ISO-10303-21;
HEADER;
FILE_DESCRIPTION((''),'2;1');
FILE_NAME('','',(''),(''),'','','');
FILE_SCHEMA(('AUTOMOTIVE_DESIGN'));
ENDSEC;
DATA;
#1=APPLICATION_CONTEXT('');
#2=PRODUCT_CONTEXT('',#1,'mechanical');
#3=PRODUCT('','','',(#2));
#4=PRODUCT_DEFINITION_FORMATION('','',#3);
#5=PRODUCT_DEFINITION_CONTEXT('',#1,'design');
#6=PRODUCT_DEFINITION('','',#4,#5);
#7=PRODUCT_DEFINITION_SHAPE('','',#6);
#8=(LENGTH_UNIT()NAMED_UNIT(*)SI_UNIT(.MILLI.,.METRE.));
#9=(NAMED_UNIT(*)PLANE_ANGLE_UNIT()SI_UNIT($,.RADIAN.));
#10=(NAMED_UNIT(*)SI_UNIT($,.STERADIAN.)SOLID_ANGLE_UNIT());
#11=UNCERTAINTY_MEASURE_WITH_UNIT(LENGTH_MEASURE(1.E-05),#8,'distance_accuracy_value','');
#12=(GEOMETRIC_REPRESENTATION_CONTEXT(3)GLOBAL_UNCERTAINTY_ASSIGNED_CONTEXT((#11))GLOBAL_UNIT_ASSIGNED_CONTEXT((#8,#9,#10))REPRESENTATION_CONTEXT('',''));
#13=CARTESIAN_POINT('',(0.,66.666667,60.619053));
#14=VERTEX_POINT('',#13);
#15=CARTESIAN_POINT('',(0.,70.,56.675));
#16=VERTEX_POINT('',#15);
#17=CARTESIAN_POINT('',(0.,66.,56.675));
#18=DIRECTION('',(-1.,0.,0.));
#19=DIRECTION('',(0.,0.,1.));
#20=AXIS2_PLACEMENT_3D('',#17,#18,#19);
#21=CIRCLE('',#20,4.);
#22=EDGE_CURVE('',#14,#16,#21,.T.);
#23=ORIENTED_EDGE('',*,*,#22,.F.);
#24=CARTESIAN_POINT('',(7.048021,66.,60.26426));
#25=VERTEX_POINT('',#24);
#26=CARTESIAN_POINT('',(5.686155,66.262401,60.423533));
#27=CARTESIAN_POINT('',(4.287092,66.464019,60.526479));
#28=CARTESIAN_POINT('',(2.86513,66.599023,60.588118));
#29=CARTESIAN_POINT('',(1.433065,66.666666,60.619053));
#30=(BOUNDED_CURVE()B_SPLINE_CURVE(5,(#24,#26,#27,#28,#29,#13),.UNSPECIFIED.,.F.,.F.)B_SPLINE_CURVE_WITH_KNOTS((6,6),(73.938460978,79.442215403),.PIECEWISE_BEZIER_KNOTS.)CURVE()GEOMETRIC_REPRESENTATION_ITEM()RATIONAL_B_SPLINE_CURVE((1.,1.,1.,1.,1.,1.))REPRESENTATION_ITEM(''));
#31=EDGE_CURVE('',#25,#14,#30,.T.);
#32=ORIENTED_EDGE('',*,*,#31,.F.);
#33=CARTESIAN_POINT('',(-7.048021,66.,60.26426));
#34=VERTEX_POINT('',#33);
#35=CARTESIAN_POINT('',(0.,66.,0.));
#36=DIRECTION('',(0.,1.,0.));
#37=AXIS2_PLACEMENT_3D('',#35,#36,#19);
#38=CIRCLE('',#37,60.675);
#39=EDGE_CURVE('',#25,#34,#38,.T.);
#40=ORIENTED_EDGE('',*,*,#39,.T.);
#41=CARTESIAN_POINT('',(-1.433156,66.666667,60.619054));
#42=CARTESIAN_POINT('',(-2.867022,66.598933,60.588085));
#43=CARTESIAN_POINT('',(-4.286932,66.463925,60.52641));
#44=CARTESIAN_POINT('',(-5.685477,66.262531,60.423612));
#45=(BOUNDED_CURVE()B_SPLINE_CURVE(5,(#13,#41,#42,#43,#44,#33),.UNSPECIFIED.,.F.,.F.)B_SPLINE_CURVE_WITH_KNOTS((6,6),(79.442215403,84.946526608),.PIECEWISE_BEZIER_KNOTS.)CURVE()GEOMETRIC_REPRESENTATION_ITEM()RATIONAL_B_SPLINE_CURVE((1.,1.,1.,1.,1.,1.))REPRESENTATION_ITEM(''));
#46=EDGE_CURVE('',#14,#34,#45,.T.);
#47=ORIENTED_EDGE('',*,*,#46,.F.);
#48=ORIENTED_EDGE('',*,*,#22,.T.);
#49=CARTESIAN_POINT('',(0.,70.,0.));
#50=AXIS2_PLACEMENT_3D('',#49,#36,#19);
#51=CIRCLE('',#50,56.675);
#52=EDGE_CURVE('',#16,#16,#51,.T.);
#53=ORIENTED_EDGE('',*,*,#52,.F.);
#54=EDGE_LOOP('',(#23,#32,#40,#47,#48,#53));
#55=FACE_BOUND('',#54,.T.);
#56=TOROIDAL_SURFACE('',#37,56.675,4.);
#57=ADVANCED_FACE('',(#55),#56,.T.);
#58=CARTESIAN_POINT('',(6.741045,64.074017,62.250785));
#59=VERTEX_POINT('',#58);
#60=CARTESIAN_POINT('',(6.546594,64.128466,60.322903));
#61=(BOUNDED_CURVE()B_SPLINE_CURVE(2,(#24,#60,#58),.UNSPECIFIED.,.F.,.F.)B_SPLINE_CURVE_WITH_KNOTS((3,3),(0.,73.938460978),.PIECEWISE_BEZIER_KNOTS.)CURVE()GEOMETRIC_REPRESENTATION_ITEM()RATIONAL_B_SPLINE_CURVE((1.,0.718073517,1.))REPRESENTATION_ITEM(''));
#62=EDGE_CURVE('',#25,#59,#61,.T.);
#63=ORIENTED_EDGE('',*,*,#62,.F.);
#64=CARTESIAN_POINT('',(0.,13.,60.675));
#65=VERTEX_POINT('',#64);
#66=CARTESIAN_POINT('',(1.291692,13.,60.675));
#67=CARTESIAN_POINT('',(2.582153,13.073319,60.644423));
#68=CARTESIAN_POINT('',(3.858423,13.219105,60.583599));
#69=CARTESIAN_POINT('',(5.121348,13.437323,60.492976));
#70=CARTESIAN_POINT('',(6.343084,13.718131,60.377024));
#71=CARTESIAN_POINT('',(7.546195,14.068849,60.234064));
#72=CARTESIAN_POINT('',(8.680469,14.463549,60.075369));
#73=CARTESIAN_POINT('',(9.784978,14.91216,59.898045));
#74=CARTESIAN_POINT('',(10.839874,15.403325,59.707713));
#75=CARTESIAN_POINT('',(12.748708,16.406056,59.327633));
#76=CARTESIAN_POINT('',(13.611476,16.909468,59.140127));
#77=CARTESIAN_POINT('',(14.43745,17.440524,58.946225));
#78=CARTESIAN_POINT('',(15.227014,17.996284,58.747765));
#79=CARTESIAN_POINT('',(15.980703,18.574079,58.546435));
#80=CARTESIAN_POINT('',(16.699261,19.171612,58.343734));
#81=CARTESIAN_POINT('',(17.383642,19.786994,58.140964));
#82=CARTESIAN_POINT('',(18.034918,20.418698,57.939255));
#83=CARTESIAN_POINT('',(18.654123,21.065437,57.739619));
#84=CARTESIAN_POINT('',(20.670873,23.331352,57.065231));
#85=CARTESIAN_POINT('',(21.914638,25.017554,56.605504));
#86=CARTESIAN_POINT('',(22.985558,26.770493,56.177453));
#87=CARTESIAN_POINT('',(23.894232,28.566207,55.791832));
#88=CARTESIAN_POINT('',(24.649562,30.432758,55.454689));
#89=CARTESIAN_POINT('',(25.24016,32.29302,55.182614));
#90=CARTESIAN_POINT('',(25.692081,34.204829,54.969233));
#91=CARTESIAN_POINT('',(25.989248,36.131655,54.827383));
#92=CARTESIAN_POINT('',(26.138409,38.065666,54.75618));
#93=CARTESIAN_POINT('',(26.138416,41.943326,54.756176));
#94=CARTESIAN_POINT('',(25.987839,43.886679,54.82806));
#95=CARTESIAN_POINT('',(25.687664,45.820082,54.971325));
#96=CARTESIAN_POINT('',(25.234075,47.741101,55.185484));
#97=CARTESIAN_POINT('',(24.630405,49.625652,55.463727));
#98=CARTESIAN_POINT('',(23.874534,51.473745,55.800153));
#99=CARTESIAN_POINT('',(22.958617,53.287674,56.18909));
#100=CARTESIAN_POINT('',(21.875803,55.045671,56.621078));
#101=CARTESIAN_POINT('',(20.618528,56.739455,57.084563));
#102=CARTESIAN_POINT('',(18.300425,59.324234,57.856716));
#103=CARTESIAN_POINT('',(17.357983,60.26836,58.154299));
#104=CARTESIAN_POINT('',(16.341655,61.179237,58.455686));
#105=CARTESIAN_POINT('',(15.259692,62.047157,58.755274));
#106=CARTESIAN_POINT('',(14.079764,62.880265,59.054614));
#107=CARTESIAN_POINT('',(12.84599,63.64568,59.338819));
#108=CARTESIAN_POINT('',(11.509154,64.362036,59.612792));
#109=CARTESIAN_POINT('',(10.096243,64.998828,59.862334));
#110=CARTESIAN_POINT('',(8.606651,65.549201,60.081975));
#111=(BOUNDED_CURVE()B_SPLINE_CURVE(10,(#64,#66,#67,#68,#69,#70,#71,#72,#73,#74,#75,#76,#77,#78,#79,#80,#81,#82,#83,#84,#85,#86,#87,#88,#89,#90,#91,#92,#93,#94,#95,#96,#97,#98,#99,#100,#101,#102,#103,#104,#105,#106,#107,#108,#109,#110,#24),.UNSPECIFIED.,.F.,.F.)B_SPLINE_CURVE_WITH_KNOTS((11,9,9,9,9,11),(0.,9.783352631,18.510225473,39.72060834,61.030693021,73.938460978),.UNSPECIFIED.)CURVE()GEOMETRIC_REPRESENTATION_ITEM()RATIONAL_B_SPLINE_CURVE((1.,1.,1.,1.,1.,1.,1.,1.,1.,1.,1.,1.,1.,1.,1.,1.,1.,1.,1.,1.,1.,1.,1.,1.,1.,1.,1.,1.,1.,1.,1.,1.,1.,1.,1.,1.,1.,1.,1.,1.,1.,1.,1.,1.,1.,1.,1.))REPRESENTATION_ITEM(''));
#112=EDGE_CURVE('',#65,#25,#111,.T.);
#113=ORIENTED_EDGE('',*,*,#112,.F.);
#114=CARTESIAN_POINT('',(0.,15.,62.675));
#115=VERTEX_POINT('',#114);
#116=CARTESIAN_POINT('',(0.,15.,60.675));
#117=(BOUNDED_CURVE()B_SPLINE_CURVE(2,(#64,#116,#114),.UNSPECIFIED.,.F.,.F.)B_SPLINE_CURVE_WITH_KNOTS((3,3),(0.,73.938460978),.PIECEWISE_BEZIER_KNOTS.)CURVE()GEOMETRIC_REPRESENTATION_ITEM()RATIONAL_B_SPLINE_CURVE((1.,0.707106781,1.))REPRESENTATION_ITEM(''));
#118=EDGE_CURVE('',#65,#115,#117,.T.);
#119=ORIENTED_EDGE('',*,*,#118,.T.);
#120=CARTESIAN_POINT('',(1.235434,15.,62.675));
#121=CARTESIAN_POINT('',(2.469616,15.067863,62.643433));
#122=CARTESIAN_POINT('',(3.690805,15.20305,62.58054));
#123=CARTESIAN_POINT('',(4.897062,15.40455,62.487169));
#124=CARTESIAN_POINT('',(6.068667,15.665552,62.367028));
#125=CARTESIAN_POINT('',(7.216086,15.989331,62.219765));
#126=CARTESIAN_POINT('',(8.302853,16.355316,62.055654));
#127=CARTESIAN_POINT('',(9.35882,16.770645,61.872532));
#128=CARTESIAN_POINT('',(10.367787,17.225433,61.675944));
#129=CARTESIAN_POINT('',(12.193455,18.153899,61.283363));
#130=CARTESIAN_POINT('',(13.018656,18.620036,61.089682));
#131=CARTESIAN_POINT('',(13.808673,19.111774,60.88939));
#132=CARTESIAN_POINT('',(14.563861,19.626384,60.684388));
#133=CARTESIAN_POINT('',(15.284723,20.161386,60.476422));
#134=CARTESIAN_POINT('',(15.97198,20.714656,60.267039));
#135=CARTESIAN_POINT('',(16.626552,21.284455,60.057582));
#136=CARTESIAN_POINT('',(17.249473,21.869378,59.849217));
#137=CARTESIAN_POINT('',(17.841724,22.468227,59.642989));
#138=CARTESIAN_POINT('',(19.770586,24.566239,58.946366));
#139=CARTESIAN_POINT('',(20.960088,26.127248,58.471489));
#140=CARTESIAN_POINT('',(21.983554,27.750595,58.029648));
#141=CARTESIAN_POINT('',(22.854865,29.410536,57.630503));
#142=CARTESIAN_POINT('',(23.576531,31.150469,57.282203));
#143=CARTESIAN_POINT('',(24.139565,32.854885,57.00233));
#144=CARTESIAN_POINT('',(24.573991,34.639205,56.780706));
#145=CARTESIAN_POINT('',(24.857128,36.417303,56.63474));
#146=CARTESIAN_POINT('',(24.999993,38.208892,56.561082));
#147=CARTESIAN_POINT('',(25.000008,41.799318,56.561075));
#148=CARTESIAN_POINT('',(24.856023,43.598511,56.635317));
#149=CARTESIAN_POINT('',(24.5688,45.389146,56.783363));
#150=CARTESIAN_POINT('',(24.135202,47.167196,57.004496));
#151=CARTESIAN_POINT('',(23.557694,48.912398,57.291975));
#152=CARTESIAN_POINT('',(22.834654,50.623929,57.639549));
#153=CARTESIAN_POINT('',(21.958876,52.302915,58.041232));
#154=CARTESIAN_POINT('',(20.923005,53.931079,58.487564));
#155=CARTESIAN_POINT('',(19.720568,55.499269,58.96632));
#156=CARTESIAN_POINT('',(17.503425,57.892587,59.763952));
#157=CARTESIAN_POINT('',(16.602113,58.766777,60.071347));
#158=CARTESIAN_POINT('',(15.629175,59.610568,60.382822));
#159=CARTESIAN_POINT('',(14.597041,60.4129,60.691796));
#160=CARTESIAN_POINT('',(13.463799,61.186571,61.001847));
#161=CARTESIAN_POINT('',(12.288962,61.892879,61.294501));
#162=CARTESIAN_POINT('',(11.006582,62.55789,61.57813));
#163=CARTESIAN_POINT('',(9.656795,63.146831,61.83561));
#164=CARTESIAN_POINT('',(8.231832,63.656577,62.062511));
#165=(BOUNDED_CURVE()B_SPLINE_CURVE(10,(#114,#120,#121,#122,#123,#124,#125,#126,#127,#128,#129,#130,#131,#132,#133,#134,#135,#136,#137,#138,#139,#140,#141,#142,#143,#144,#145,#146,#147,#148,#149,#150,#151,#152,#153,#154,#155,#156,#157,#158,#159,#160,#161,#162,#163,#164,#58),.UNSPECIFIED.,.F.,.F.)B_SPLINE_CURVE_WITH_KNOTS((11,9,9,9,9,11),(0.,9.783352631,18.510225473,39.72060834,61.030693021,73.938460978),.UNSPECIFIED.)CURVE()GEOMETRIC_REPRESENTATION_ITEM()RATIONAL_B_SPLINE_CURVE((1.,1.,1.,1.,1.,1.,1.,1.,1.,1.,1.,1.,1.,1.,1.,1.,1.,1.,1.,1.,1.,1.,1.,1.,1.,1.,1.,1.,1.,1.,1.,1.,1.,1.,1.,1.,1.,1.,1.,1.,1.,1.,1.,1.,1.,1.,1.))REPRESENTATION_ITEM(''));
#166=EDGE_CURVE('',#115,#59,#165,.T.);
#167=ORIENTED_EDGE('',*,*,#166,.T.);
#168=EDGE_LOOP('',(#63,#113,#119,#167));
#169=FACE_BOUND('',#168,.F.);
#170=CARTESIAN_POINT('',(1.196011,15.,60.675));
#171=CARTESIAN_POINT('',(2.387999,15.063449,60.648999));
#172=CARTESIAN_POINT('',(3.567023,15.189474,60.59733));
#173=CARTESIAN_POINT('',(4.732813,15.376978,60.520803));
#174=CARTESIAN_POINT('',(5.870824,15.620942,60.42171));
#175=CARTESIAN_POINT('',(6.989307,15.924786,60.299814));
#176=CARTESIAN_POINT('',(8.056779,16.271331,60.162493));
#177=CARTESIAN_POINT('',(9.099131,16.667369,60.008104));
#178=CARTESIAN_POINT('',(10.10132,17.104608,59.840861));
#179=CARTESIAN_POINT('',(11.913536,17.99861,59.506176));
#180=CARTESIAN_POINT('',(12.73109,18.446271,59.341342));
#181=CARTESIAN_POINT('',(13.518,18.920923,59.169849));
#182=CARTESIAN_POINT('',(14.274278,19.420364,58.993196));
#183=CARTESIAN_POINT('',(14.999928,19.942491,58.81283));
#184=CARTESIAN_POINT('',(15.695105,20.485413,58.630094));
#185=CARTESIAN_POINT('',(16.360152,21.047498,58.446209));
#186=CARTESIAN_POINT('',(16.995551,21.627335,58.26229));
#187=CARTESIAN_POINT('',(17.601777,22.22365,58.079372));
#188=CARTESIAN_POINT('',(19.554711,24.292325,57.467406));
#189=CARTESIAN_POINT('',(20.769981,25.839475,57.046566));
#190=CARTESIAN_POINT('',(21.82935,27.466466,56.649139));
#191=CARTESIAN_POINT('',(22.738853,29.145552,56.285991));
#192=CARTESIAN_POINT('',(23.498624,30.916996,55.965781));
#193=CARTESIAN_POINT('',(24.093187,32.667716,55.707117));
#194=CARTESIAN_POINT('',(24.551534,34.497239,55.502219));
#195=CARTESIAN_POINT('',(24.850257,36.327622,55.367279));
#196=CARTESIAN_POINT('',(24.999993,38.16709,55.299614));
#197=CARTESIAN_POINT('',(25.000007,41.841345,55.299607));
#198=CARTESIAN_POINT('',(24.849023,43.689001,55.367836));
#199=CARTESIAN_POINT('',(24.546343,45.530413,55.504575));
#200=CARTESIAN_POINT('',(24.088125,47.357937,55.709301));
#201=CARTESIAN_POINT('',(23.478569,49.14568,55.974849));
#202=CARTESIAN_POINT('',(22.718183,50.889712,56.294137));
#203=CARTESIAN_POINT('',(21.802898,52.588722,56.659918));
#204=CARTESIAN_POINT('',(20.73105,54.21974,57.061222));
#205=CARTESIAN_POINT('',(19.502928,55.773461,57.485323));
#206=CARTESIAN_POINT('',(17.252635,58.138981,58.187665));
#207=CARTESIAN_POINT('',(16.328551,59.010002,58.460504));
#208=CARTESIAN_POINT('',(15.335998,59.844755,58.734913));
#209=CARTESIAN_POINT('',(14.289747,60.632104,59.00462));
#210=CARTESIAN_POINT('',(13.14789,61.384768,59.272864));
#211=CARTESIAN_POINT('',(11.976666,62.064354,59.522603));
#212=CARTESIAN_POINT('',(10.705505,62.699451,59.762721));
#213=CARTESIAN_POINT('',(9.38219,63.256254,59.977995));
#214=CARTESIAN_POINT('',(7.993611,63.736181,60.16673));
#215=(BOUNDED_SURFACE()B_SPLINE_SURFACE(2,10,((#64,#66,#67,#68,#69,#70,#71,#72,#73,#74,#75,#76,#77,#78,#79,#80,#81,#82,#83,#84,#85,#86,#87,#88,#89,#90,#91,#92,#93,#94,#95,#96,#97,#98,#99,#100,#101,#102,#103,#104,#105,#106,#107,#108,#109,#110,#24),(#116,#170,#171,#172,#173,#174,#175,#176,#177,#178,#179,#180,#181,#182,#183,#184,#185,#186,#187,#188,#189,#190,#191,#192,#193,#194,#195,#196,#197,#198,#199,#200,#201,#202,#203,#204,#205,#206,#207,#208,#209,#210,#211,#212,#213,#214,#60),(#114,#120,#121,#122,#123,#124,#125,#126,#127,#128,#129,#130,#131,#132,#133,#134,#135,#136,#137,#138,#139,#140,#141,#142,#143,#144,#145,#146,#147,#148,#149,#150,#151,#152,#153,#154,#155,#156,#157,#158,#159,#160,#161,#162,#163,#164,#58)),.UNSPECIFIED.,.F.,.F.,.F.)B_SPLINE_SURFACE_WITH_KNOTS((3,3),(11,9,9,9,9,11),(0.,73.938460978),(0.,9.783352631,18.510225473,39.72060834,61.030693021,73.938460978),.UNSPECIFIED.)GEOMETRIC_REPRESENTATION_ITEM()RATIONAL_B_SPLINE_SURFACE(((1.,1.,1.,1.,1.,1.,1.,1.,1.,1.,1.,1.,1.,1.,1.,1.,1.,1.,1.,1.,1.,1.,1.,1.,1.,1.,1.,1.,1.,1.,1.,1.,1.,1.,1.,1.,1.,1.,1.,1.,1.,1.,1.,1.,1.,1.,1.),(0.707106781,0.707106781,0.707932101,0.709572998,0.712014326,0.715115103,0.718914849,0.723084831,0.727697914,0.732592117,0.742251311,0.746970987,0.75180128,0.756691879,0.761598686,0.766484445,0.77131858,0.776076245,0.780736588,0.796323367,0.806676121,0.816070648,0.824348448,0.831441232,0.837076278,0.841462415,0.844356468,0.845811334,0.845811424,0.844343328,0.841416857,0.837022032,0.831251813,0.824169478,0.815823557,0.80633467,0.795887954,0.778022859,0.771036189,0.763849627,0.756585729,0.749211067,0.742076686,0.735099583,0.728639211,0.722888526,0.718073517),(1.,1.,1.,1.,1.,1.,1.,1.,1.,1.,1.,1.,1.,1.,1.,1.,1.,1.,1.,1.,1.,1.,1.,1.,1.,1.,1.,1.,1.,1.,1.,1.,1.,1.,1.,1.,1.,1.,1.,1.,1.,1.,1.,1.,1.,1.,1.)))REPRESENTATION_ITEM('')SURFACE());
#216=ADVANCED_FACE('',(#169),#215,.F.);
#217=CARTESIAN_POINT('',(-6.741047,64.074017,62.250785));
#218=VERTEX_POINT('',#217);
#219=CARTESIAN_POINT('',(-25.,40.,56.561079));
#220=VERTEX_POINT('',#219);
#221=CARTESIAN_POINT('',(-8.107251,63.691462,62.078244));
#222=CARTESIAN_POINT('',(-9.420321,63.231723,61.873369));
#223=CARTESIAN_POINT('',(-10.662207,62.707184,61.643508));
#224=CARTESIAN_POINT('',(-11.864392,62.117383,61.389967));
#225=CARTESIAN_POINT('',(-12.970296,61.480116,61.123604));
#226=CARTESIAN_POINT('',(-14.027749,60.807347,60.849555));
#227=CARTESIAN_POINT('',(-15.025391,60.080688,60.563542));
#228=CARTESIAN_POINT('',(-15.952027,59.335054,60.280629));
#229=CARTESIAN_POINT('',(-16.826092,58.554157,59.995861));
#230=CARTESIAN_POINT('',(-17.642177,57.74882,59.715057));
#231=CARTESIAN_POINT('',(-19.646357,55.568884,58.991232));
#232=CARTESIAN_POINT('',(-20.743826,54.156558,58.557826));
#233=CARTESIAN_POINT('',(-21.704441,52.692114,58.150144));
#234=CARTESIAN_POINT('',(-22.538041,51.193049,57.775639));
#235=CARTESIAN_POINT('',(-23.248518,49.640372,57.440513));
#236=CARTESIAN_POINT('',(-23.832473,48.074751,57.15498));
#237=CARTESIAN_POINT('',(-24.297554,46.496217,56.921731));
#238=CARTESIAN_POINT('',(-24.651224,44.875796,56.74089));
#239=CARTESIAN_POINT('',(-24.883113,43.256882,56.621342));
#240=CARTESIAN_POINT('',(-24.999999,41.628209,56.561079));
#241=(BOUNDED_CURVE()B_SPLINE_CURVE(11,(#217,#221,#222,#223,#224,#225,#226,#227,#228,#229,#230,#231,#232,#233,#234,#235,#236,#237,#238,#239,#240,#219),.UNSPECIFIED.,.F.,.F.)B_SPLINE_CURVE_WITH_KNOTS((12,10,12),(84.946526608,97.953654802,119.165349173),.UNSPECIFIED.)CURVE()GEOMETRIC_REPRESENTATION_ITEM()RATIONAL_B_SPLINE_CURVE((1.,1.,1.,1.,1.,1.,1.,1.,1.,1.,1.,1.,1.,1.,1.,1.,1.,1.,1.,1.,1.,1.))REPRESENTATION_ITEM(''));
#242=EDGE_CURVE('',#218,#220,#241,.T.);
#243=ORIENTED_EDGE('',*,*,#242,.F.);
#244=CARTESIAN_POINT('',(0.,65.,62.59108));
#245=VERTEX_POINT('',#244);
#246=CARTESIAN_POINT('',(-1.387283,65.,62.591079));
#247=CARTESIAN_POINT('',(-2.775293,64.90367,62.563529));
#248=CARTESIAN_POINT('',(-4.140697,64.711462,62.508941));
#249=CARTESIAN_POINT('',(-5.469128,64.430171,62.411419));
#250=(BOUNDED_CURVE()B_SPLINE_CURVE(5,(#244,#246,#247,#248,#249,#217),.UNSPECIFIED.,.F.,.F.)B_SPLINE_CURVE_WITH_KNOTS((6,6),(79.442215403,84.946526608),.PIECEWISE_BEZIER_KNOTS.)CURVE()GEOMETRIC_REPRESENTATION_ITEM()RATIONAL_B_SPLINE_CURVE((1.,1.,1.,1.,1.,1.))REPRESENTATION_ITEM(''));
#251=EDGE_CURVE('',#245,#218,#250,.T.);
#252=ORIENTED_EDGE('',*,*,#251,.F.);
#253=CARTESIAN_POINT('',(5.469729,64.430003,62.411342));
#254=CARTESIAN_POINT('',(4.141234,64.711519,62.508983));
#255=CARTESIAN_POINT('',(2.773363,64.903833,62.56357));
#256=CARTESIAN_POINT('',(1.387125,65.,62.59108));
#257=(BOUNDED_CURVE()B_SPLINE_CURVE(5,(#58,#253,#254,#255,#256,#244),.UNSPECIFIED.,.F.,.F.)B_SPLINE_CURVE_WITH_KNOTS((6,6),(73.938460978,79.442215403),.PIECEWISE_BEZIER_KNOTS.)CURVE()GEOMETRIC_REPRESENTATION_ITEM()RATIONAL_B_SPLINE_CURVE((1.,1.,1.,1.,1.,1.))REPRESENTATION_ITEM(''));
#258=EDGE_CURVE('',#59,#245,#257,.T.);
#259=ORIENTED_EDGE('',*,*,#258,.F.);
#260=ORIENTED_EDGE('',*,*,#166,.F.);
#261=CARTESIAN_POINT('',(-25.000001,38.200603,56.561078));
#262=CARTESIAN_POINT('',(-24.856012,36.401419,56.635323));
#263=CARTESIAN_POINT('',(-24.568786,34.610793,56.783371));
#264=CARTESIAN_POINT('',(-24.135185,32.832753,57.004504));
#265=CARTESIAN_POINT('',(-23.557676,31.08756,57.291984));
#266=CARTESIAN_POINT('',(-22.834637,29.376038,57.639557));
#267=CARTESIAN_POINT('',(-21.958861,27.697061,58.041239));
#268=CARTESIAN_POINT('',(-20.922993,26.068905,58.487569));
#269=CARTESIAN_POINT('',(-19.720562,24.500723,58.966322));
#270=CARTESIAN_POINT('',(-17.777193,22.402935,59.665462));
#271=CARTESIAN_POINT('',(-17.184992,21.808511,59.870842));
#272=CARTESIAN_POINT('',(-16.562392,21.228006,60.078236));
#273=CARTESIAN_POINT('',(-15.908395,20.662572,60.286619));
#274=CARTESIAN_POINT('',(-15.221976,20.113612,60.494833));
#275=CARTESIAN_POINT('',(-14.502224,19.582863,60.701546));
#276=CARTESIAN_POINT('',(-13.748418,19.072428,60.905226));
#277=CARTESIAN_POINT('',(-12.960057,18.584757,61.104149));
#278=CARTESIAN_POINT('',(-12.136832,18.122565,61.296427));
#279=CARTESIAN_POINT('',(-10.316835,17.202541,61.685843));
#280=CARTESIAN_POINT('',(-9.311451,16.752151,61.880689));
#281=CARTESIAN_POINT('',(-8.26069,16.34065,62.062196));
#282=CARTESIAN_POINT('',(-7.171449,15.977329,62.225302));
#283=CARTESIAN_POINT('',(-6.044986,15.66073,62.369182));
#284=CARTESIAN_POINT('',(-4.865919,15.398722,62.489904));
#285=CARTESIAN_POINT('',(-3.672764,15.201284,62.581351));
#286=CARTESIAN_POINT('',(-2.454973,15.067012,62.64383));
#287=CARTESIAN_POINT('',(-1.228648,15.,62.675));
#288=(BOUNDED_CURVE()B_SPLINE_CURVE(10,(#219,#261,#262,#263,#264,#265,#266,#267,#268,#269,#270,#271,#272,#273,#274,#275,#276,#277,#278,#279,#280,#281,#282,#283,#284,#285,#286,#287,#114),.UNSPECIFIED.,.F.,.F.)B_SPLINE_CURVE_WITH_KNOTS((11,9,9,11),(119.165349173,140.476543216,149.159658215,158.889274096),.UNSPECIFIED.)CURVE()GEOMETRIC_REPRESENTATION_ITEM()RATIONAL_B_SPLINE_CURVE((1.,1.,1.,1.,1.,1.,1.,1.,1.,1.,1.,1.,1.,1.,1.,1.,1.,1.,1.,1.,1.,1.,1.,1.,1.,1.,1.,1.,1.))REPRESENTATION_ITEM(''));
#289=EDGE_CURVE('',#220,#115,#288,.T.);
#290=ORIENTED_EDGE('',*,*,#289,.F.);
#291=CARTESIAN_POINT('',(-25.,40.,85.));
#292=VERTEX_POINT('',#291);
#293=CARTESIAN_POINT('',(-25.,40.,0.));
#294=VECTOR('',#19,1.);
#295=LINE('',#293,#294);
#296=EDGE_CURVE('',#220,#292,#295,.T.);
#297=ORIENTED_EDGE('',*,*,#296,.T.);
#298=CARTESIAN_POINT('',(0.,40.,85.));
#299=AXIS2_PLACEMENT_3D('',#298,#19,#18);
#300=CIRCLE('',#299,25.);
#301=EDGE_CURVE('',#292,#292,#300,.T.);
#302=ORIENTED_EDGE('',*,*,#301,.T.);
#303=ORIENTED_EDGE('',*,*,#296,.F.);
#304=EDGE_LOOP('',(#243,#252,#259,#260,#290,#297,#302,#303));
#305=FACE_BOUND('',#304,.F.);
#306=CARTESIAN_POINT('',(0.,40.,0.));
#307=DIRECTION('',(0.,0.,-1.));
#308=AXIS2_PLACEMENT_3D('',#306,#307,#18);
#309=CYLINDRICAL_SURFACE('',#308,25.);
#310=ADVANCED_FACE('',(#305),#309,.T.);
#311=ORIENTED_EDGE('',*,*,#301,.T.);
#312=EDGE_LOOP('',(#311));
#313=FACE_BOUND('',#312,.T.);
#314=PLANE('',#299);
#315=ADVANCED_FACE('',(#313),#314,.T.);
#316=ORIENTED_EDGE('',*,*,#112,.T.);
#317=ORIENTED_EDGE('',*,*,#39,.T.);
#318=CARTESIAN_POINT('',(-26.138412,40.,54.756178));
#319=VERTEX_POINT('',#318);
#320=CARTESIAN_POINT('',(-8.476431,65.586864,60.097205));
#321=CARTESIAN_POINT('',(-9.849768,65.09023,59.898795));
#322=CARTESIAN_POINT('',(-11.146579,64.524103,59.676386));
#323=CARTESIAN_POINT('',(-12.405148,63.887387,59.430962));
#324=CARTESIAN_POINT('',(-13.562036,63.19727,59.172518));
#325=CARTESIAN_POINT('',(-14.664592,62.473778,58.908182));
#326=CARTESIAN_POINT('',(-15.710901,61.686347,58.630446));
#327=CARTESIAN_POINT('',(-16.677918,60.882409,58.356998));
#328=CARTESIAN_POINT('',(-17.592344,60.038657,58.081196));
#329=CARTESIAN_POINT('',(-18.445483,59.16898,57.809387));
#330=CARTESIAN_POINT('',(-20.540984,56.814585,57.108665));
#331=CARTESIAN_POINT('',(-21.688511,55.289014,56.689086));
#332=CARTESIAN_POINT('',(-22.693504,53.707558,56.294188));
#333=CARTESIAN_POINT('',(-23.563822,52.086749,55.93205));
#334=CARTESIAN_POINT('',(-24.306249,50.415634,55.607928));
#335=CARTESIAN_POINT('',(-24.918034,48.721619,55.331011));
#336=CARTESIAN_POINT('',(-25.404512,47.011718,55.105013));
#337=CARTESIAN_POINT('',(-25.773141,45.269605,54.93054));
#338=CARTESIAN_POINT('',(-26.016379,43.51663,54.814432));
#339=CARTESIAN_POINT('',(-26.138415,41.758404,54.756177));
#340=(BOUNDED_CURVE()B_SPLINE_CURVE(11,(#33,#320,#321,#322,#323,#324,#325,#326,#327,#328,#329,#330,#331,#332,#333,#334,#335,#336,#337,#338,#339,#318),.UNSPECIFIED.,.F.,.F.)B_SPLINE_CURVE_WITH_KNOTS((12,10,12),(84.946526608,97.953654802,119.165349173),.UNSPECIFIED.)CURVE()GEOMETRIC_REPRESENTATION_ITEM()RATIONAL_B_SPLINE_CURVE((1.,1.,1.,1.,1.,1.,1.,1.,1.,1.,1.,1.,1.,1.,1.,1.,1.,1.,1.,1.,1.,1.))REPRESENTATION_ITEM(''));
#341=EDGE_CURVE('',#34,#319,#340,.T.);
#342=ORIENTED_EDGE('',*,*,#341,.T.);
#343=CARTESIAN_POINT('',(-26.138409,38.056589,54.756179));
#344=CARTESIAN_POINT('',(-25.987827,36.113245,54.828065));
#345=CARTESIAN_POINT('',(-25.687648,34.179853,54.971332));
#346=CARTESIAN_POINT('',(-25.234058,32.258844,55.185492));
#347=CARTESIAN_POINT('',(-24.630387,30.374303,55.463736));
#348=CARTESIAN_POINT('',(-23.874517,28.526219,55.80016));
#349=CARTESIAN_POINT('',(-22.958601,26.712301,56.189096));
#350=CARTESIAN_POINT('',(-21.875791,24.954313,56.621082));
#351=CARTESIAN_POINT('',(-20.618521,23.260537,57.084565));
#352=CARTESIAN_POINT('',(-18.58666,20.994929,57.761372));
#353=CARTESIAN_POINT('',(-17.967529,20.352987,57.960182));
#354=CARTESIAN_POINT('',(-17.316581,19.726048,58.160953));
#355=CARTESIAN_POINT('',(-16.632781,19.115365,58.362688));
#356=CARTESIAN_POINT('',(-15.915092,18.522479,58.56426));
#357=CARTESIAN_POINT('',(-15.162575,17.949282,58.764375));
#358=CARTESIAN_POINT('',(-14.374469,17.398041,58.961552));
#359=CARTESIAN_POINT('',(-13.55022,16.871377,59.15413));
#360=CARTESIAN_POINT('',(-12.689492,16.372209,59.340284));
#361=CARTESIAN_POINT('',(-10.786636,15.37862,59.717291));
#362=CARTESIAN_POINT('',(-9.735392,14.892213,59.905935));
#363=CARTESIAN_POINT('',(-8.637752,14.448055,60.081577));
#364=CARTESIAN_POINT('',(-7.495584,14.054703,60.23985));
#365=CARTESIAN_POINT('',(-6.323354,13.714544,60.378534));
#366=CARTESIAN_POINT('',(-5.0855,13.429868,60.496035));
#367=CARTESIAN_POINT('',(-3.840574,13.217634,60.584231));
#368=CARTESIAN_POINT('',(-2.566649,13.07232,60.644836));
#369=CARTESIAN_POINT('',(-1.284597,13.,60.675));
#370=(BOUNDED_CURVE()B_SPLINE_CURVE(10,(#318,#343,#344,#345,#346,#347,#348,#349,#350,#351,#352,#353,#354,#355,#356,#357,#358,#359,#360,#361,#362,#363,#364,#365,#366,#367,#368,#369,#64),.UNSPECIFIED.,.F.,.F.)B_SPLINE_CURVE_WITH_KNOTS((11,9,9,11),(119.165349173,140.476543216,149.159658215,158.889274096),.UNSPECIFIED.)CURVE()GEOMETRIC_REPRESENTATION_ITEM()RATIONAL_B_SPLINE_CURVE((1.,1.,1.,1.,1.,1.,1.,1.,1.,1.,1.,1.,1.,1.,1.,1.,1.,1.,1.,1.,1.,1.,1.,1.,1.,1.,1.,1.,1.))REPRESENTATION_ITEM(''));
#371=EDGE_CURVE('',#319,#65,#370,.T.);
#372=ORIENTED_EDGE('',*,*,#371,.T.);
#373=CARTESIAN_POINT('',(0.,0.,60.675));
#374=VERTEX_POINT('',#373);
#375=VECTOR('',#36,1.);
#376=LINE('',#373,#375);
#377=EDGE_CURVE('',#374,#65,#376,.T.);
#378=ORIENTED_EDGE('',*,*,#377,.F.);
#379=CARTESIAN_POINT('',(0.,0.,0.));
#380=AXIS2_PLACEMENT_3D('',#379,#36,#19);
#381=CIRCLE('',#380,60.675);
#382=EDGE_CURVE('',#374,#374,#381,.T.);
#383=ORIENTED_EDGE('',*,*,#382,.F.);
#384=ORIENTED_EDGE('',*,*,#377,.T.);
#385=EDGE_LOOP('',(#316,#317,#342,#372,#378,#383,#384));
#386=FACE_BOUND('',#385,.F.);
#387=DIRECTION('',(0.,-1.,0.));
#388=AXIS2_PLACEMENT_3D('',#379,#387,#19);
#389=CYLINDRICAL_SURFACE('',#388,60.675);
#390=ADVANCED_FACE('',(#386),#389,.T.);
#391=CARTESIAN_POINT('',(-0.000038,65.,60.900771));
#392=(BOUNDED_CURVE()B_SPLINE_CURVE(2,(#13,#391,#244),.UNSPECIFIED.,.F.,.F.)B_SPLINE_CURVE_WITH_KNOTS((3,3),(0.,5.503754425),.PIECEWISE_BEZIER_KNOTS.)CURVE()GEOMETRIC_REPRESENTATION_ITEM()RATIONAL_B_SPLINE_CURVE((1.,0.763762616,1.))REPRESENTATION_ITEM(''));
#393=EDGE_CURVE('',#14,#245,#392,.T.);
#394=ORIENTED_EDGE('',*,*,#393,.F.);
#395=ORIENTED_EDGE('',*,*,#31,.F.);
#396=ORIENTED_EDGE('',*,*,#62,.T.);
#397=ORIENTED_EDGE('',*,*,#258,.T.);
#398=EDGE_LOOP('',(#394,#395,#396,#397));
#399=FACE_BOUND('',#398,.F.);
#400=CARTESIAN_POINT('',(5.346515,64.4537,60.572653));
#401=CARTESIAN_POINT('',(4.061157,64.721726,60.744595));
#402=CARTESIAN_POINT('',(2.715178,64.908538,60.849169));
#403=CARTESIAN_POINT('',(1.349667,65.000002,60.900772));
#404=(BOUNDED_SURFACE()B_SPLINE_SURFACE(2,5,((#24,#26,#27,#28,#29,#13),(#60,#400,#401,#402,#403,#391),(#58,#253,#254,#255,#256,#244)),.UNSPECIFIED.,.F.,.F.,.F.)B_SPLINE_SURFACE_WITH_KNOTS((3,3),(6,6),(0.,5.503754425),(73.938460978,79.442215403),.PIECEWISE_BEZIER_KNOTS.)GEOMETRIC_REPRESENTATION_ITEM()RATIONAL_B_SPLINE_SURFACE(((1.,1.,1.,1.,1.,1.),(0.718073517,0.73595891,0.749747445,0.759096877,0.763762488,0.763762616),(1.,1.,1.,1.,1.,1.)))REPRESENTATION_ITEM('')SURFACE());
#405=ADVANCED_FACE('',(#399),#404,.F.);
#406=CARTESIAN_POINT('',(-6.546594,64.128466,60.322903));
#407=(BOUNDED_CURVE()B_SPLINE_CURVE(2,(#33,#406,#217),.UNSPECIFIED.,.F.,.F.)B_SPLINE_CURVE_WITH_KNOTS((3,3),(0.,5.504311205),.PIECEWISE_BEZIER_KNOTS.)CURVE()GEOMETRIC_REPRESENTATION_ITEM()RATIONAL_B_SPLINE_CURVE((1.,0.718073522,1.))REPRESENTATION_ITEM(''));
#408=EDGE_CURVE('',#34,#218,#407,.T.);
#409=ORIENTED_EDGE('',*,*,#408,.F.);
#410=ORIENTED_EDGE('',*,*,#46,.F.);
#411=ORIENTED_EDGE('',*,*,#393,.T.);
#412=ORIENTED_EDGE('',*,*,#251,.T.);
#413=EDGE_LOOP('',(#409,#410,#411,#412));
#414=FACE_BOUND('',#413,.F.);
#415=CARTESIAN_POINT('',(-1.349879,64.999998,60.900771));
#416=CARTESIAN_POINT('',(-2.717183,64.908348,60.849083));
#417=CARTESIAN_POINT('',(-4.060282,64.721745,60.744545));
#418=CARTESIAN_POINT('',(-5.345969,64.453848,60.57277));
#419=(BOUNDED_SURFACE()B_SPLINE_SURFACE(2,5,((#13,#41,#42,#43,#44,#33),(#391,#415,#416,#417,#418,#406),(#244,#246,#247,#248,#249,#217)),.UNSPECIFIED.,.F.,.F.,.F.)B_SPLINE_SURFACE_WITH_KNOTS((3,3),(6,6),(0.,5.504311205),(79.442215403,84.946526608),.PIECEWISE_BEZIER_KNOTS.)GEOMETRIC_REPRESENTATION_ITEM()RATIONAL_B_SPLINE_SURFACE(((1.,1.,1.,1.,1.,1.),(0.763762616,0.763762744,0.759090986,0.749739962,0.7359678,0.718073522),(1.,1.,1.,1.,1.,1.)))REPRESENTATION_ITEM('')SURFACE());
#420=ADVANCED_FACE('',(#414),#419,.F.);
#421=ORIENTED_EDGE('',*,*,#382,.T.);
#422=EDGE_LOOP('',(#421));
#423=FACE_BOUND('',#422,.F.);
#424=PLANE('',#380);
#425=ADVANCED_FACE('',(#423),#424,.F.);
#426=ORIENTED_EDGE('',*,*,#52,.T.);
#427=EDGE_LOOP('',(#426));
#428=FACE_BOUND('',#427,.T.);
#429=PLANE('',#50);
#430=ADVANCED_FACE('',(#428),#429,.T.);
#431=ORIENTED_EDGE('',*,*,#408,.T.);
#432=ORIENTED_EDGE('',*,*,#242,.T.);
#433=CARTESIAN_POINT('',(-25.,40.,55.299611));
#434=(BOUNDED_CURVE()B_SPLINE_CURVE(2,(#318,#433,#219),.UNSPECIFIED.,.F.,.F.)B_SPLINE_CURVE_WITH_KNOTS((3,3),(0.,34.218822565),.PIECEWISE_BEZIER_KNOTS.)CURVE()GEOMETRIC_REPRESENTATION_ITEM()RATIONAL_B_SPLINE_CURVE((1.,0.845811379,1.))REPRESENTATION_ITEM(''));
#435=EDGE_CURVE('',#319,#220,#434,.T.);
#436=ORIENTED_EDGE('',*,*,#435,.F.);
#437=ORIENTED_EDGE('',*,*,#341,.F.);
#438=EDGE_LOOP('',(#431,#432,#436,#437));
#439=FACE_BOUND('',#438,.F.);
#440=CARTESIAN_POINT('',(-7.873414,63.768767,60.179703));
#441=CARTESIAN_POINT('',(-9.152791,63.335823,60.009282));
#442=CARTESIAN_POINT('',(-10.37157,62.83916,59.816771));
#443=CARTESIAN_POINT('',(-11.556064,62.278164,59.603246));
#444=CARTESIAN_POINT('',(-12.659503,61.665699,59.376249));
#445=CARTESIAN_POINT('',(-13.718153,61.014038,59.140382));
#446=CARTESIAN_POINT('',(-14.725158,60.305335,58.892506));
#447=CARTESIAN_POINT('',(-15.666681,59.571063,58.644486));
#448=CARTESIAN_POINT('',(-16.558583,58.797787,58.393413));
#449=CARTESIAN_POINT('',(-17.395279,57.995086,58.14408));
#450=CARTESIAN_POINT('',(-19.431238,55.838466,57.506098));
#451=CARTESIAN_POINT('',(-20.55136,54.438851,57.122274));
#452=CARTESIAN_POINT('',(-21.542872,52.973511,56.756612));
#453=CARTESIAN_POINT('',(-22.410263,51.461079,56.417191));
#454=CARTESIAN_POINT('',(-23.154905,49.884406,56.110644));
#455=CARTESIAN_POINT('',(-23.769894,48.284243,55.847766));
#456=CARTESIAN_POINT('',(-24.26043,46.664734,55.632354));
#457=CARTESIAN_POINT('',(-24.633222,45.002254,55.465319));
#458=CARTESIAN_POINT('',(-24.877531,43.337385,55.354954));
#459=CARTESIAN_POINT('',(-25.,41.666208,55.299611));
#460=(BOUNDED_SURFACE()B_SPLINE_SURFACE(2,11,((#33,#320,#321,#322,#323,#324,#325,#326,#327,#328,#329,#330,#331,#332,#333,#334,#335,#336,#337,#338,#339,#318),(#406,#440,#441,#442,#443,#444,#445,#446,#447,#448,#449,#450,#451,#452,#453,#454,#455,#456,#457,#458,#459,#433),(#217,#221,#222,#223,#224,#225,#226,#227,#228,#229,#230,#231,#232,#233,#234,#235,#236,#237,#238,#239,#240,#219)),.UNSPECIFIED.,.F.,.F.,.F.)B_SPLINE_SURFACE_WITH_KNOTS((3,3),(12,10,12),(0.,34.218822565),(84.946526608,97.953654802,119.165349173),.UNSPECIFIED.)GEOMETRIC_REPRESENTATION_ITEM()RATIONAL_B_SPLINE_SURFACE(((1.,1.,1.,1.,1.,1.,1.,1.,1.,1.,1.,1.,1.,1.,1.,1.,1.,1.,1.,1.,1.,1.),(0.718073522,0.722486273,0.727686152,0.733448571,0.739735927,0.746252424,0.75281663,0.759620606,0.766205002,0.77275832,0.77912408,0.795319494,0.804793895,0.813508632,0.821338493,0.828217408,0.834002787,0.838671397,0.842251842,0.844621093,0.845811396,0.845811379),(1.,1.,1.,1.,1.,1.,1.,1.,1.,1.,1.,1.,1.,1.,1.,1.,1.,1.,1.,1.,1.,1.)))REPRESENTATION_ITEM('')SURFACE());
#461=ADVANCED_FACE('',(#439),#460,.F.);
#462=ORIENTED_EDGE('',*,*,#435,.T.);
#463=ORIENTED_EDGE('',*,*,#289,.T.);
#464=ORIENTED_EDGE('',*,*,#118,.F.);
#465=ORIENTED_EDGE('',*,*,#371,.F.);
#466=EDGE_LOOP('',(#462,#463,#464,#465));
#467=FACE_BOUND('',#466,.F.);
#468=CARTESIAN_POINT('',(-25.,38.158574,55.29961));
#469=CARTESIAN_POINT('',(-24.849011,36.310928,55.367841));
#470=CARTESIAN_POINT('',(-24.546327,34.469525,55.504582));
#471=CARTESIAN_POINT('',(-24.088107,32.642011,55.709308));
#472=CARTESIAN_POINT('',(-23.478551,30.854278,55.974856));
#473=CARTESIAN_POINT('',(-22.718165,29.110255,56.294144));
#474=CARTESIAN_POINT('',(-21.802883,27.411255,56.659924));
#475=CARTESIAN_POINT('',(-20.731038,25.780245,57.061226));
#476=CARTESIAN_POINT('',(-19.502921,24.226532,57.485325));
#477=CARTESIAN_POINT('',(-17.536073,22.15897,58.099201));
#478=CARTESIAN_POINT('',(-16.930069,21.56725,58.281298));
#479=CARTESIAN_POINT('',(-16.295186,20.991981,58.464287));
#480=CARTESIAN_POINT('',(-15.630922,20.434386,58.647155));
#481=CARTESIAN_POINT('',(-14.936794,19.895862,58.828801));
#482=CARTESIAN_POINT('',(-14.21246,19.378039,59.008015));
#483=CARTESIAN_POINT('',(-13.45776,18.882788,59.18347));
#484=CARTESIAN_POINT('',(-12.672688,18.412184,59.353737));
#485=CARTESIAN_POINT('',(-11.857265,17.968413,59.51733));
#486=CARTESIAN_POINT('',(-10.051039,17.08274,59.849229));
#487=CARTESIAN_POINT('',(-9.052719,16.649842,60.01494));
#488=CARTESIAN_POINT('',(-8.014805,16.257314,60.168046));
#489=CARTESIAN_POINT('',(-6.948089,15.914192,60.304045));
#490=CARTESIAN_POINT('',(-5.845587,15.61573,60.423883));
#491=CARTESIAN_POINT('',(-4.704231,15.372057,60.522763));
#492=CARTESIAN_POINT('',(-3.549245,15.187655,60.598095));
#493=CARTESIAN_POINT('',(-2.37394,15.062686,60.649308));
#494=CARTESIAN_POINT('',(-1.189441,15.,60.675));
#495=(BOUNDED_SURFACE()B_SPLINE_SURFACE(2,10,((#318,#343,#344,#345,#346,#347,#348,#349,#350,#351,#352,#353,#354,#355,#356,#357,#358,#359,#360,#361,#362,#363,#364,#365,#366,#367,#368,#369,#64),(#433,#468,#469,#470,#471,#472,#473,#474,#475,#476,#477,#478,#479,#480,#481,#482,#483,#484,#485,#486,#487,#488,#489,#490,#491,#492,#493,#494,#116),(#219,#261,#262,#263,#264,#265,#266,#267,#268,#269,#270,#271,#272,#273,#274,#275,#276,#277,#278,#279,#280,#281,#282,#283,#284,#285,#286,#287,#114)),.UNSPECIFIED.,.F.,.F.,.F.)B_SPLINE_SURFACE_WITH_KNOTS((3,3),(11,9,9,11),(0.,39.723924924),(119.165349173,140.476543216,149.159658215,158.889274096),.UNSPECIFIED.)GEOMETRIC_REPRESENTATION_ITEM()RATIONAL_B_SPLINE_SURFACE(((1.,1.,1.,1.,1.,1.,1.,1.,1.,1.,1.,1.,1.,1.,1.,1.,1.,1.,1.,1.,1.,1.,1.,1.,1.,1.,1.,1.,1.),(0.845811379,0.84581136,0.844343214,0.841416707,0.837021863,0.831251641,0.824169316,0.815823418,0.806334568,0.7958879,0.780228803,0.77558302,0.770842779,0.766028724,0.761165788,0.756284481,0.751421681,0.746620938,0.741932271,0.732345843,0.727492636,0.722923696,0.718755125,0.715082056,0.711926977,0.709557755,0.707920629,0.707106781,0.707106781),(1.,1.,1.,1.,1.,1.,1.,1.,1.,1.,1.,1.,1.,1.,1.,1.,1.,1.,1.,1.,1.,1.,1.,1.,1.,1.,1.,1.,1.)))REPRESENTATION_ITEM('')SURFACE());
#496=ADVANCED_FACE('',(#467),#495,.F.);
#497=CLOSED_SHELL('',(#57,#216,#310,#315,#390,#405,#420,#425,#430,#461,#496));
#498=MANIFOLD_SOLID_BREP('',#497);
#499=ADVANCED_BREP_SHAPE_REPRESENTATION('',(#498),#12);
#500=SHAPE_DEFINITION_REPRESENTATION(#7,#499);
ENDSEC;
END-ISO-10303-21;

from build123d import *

# Parameters (mm, degrees)
SKETCH1_R           = 60.675
BOSS_EXTRUDE1_DEPTH = 70
SKETCH2_R           = 25
BOSS_EXTRUDE2_DEPTH = 85
FILLET1_R           = 4
FILLET2_R           = 2


with BuildPart() as part:
    # Sketch1 → Boss-Extrude1 (new body)
    with BuildSketch(Plane(origin=(0, 0, 0), x_dir=(1, 0, 0), z_dir=(0, 1, 0))):
        with Locations(Location((0, 0, 0), (0, 0, 270))):
            Circle(SKETCH1_R)
    extrude(amount=BOSS_EXTRUDE1_DEPTH)

    # Sketch2 → Boss-Extrude2 (add)
    with BuildSketch(Plane.XY):
        with Locations(Location((0, 40, 0), (0, 0, 180))):
            Circle(SKETCH2_R)
    extrude(amount=BOSS_EXTRUDE2_DEPTH)

    # Fillet1
    fillet1_edges = [part.edges().sort_by_distance(p)[0] for p in [
        (0, 70, -60.675),
    ]]
    fillet(fillet1_edges, radius=FILLET1_R)

    # Fillet2
    fillet2_edges = [part.edges().sort_by_distance(p)[0] for p in [
        (25, 40, 55.285220674),
    ]]
    fillet(fillet2_edges, radius=FILLET2_R)


solid = part.part
